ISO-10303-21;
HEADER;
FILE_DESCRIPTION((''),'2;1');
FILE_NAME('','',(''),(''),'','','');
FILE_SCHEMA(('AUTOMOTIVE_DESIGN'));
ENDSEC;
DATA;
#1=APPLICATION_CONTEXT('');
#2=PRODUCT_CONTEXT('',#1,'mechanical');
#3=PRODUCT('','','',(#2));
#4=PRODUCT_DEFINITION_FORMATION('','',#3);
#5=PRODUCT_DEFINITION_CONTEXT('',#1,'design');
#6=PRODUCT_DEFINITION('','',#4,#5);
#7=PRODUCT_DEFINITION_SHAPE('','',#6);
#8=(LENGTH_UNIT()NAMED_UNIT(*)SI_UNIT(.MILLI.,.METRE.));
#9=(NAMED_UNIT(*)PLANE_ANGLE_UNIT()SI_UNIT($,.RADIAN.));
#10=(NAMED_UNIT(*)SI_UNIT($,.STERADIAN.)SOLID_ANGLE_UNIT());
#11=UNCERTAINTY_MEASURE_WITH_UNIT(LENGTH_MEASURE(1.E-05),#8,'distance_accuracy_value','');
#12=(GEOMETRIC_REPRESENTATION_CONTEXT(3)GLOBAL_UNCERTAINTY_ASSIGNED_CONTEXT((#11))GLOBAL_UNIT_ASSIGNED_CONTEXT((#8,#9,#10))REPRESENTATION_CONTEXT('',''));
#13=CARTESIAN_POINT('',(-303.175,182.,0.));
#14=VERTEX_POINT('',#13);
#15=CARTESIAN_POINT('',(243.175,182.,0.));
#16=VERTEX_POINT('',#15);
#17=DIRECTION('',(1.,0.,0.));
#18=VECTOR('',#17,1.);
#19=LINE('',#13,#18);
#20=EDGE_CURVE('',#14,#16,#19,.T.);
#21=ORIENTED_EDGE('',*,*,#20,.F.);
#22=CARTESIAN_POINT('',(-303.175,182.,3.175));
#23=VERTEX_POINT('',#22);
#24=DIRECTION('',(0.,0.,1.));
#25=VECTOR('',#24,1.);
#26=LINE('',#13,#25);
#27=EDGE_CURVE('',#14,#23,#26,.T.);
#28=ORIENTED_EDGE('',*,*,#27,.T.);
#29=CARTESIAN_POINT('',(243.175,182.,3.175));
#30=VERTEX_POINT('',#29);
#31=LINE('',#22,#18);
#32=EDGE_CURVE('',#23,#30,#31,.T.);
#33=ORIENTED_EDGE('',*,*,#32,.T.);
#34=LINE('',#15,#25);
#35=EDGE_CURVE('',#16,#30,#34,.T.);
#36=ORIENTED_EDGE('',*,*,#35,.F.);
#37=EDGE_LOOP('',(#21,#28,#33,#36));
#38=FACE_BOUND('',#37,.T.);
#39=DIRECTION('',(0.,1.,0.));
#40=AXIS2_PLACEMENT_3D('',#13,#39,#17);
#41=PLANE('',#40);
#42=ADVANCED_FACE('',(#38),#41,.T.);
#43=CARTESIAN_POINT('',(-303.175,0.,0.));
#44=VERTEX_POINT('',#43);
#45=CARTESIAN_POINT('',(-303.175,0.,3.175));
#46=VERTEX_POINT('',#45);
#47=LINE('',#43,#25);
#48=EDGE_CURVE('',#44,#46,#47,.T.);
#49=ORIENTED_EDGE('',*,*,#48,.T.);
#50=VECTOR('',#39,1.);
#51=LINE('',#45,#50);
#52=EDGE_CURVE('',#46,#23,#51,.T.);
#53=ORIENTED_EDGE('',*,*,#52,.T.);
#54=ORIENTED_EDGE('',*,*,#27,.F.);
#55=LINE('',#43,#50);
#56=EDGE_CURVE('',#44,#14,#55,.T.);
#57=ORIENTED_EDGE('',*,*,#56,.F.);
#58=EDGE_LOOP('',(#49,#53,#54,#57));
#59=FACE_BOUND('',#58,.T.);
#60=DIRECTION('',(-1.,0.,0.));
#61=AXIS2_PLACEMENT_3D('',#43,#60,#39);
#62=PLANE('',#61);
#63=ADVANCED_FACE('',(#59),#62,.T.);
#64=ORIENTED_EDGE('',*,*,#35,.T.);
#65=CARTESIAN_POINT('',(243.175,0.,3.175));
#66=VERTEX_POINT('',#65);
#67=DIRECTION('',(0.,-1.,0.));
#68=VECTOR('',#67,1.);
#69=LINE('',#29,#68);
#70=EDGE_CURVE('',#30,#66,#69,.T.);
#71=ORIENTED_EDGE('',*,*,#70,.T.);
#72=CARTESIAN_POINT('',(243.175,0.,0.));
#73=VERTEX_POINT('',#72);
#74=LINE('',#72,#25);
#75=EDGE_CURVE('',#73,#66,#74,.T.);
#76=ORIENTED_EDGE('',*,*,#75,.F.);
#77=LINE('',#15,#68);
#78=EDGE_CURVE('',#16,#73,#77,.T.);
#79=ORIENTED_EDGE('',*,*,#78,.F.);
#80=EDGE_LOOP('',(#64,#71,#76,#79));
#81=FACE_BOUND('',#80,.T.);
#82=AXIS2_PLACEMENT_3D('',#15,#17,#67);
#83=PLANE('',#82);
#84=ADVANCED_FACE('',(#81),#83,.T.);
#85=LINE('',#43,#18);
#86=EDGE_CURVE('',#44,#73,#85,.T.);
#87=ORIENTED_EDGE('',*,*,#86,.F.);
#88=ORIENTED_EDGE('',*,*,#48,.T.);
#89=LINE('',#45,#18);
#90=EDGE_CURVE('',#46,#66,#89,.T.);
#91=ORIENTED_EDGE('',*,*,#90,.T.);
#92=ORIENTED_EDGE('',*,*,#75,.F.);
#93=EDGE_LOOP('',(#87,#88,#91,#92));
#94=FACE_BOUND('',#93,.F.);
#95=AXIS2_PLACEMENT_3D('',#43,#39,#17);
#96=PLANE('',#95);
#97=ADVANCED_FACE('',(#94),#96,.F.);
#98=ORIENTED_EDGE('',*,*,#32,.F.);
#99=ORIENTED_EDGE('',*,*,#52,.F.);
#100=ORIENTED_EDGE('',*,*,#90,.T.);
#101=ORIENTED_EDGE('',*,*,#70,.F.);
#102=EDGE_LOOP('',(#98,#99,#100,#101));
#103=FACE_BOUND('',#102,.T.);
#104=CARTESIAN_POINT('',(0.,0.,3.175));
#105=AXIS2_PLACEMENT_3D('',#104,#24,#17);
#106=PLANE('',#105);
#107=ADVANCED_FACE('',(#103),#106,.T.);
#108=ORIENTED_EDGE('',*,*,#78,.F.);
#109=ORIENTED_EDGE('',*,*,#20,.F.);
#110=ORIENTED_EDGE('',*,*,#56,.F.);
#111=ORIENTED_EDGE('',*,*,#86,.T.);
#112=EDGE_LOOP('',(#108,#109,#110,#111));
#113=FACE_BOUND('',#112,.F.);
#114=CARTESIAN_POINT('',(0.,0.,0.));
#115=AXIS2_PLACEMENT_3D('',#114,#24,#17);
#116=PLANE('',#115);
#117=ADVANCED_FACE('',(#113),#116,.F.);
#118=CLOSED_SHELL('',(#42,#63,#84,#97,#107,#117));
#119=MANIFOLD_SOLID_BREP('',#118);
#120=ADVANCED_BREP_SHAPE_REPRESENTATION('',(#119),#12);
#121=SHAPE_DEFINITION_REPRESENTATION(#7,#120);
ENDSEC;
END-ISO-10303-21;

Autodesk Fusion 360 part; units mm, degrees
ref_plane "WorkPlane12" through (0, -1, 0) normal (0, 1, 0) x (0, 0, 1)
sketch "MyStock" plane through (0, 0, 0) normal (0, 0, 1) x (1, 0, 0)
  line L0 (-303.175, 182) -> (243.175, 182)
  line L1 (243.175, 182) -> (243.175, 0)
  line L2 (-303.175, 0) -> (-303.175, 182)
  line L3 (-303.175, 0) -> (243.175, 0)
  dimension "d2016" = 243.175
  dimension "d2017" = 303.175
  dimension "d2102" = 182
extrude "Extrude21" add sketch "MyStock" along normal blind 3.175
sketch "Box Big part" plane through (0, 0, 0) normal (0, 0, 1) x (1, 0, 0)
  line L0 (-224.905, 0) -> (-240, 0)
  line L1 (0, 16.095) -> (0, 0)
  line L2 (-240, 0) -> (-224.905, 0)
  line L3 (-224.905, 0) -> (-224.905, 1.5613)
  line L4 (-223.7758, 3.175) -> (-216.2242, 3.175)
  line L5 (-215.095, 1.5613) -> (-215.095, 0)
  line L6 (-240, 16.095) -> (-238.4387, 16.095)
  line L7 (-236.825, 17.2242) -> (-236.825, 24.7758)
  line L8 (-238.4387, 25.905) -> (-240, 25.905)
  line L9 (-215.095, 0) -> (-204.905, 0)
  line L10 (1.75, 0) -> (22.5, 0)
  arc A0 (-215.095, 1.5613) -> (-216.2242, 3.175) centre (-215.5171, 2.4679) ccw
  arc A1 (-223.7758, 3.175) -> (-224.905, 1.5613) centre (-224.4829, 2.4679) ccw
  line L11 (-240, 0) -> (-240, 16.095)
  line L12 (-240, 25.905) -> (-240, 36.095)
  arc A2 (-238.4387, 16.095) -> (-236.825, 17.2242) centre (-237.5321, 16.5171) ccw
  arc A3 (-236.825, 24.7758) -> (-238.4387, 25.905) centre (-237.5321, 25.4829) ccw
  line L13 (-302, 91) -> (0, 91) construction
  line L14 (-120, -20) -> (-120, 200) construction
  arc A4 (-1.5613, 25.905) -> (-3.175, 24.7758) centre (-2.4679, 25.4829) ccw
  arc A5 (-3.175, 17.2242) -> (-1.5613, 16.095) centre (-2.4679, 16.5171) ccw
  line L15 (-3.175, 17.2242) -> (-3.175, 24.7758)
  line L16 (-1.5613, 25.905) -> (0, 25.905)
  line L17 (0, 25.905) -> (0, 36.095)
  line L18 (0, 16.095) -> (-1.5613, 16.095)
  line L19 (0, 16.095) -> (0, 0)
  line L20 (-215.095, 180.4387) -> (-215.095, 182)
  line L21 (-224.905, 182) -> (-224.905, 180.4387)
  line L22 (-215.095, 182) -> (-204.905, 182)
  arc A6 (-216.2242, 178.825) -> (-215.095, 180.4387) centre (-215.5171, 179.5321) ccw
  line L23 (-224.905, 182) -> (-240, 182)
  arc A7 (-224.905, 180.4387) -> (-223.7758, 178.825) centre (-224.4829, 179.5321) ccw
  line L24 (-223.7758, 178.825) -> (-216.2242, 178.825)
  line L25 (-240, 182) -> (-224.905, 182)
  arc A8 (-195.095, 1.5613) -> (-196.2242, 3.175) centre (-195.5171, 2.4679) ccw
  line L26 (-195.095, 1.5613) -> (-195.095, 0)
  arc A9 (-203.7758, 3.175) -> (-204.905, 1.5613) centre (-204.4829, 2.4679) ccw
  line L27 (-195.095, 0) -> (-184.905, 0)
  line L28 (-203.7758, 3.175) -> (-196.2242, 3.175)
  line L29 (-204.905, 0) -> (-204.905, 1.5613)
  arc A10 (-175.095, 1.5613) -> (-176.2242, 3.175) centre (-175.5171, 2.4679) ccw
  line L30 (-175.095, 1.5613) -> (-175.095, 0)
  arc A11 (-183.7758, 3.175) -> (-184.905, 1.5613) centre (-184.4829, 2.4679) ccw
  line L31 (-175.095, 0) -> (-164.905, 0)
  line L32 (-183.7758, 3.175) -> (-176.2242, 3.175)
  line L33 (-184.905, 0) -> (-184.905, 1.5613)
  arc A12 (-155.095, 1.5613) -> (-156.2242, 3.175) centre (-155.5171, 2.4679) ccw
  line L34 (-155.095, 1.5613) -> (-155.095, 0)
  arc A13 (-163.7758, 3.175) -> (-164.905, 1.5613) centre (-164.4829, 2.4679) ccw
  line L35 (-155.095, 0) -> (-144.905, 0)
  line L36 (-163.7758, 3.175) -> (-156.2242, 3.175)
  line L37 (-164.905, 0) -> (-164.905, 1.5613)
  arc A14 (-135.095, 1.5613) -> (-136.2242, 3.175) centre (-135.5171, 2.4679) ccw
  line L38 (-135.095, 1.5613) -> (-135.095, 0)
  arc A15 (-143.7758, 3.175) -> (-144.905, 1.5613) centre (-144.4829, 2.4679) ccw
  line L39 (-135.095, 0) -> (-124.905, 0)
  line L40 (-143.7758, 3.175) -> (-136.2242, 3.175)
  line L41 (-144.905, 0) -> (-144.905, 1.5613)
  arc A16 (-115.095, 1.5613) -> (-116.2242, 3.175) centre (-115.5171, 2.4679) ccw
  line L42 (-115.095, 1.5613) -> (-115.095, 0)
  arc A17 (-123.7758, 3.175) -> (-124.905, 1.5613) centre (-124.4829, 2.4679) ccw
  line L43 (-115.095, 0) -> (-104.905, 0)
  line L44 (-123.7758, 3.175) -> (-116.2242, 3.175)
  line L45 (-124.905, 0) -> (-124.905, 1.5613)
  arc A18 (-95.095, 1.5613) -> (-96.2242, 3.175) centre (-95.5171, 2.4679) ccw
  line L46 (-95.095, 1.5613) -> (-95.095, 0)
  arc A19 (-103.7758, 3.175) -> (-104.905, 1.5613) centre (-104.4829, 2.4679) ccw
  line L47 (-95.095, 0) -> (-84.905, 0)
  line L48 (-103.7758, 3.175) -> (-96.2242, 3.175)
  line L49 (-104.905, 0) -> (-104.905, 1.5613)
  line L50 (0, 0) -> (-4.905, 0)
  line L51 (-238.4387, 45.905) -> (-240, 45.905)
  line L52 (-240, 36.095) -> (-238.4387, 36.095)
  arc A20 (-238.4387, 36.095) -> (-236.825, 37.2242) centre (-237.5321, 36.5171) ccw
  line L53 (-240, 45.905) -> (-240, 56.095)
  arc A21 (-236.825, 44.7758) -> (-238.4387, 45.905) centre (-237.5321, 45.4829) ccw
  line L54 (-236.825, 37.2242) -> (-236.825, 44.7758)
  line L55 (-238.4387, 65.905) -> (-240, 65.905)
  line L56 (-240, 56.095) -> (-238.4387, 56.095)
  arc A22 (-238.4387, 56.095) -> (-236.825, 57.2242) centre (-237.5321, 56.5171) ccw
  line L57 (-240, 65.905) -> (-240, 76.095)
  arc A23 (-236.825, 64.7758) -> (-238.4387, 65.905) centre (-237.5321, 65.4829) ccw
  line L58 (-236.825, 57.2242) -> (-236.825, 64.7758)
  line L59 (-238.4387, 85.905) -> (-240, 85.905)
  line L60 (-240, 76.095) -> (-238.4387, 76.095)
  arc A24 (-238.4387, 76.095) -> (-236.825, 77.2242) centre (-237.5321, 76.5171) ccw
  line L61 (-240, 85.905) -> (-240, 96.095)
  arc A25 (-236.825, 84.7758) -> (-238.4387, 85.905) centre (-237.5321, 85.4829) ccw
  line L62 (-236.825, 77.2242) -> (-236.825, 84.7758)
  line L63 (-238.4387, 105.905) -> (-240, 105.905)
  line L64 (-240, 96.095) -> (-238.4387, 96.095)
  arc A26 (-238.4387, 96.095) -> (-236.825, 97.2242) centre (-237.5321, 96.5171) ccw
  line L65 (-240, 105.905) -> (-240, 116.095)
  arc A27 (-236.825, 104.7758) -> (-238.4387, 105.905) centre (-237.5321, 105.4829) ccw
  line L66 (-236.825, 97.2242) -> (-236.825, 104.7758)
  arc A28 (-196.2242, 178.825) -> (-195.095, 180.4387) centre (-195.5171, 179.5321) ccw
  line L67 (-195.095, 180.4387) -> (-195.095, 182)
  arc A29 (-204.905, 180.4387) -> (-203.7758, 178.825) centre (-204.4829, 179.5321) ccw
  line L68 (-203.7758, 178.825) -> (-196.2242, 178.825)
  line L69 (-204.905, 182) -> (-204.905, 180.4387)
  line L70 (-195.095, 182) -> (-184.905, 182)
  arc A30 (-176.2242, 178.825) -> (-175.095, 180.4387) centre (-175.5171, 179.5321) ccw
  line L71 (-175.095, 180.4387) -> (-175.095, 182)
  arc A31 (-184.905, 180.4387) -> (-183.7758, 178.825) centre (-184.4829, 179.5321) ccw
  line L72 (-183.7758, 178.825) -> (-176.2242, 178.825)
  line L73 (-184.905, 182) -> (-184.905, 180.4387)
  line L74 (-175.095, 182) -> (-164.905, 182)
  arc A32 (-156.2242, 178.825) -> (-155.095, 180.4387) centre (-155.5171, 179.5321) ccw
  line L75 (-155.095, 180.4387) -> (-155.095, 182)
  arc A33 (-164.905, 180.4387) -> (-163.7758, 178.825) centre (-164.4829, 179.5321) ccw
  line L76 (-163.7758, 178.825) -> (-156.2242, 178.825)
  line L77 (-164.905, 182) -> (-164.905, 180.4387)
  line L78 (-155.095, 182) -> (-144.905, 182)
  arc A34 (-136.2242, 178.825) -> (-135.095, 180.4387) centre (-135.5171, 179.5321) ccw
  line L79 (-135.095, 180.4387) -> (-135.095, 182)
  arc A35 (-144.905, 180.4387) -> (-143.7758, 178.825) centre (-144.4829, 179.5321) ccw
  line L80 (-143.7758, 178.825) -> (-136.2242, 178.825)
  line L81 (-144.905, 182) -> (-144.905, 180.4387)
  line L82 (-135.095, 182) -> (-124.905, 182)
  arc A36 (-116.2242, 178.825) -> (-115.095, 180.4387) centre (-115.5171, 179.5321) ccw
  line L83 (-115.095, 180.4387) -> (-115.095, 182)
  arc A37 (-124.905, 180.4387) -> (-123.7758, 178.825) centre (-124.4829, 179.5321) ccw
  line L84 (-123.7758, 178.825) -> (-116.2242, 178.825)
  line L85 (-124.905, 182) -> (-124.905, 180.4387)
  line L86 (-115.095, 182) -> (-104.905, 182)
  arc A38 (-96.2242, 178.825) -> (-95.095, 180.4387) centre (-95.5171, 179.5321) ccw
  line L87 (-95.095, 180.4387) -> (-95.095, 182)
  arc A39 (-104.905, 180.4387) -> (-103.7758, 178.825) centre (-104.4829, 179.5321) ccw
  line L88 (-103.7758, 178.825) -> (-96.2242, 178.825)
  line L89 (-104.905, 182) -> (-104.905, 180.4387)
  line L90 (-95.095, 182) -> (-84.905, 182)
  line L91 (0, 182) -> (-4.905, 182)
  line L92 (-3.175, 37.2242) -> (-3.175, 44.7758)
  line L93 (-1.5613, 45.905) -> (0, 45.905)
  line L94 (0, 45.905) -> (0, 56.095)
  arc A40 (-1.5613, 45.905) -> (-3.175, 44.7758) centre (-2.4679, 45.4829) ccw
  line L95 (0, 36.095) -> (-1.5613, 36.095)
  line L96 (-3.175, 57.2242) -> (-3.175, 64.7758)
  line L97 (-1.5613, 65.905) -> (0, 65.905)
  line L98 (0, 65.905) -> (0, 76.095)
  arc A41 (-1.5613, 65.905) -> (-3.175, 64.7758) centre (-2.4679, 65.4829) ccw
  line L99 (0, 56.095) -> (-1.5613, 56.095)
  line L100 (-3.175, 77.2242) -> (-3.175, 84.7758)
  line L101 (-1.5613, 85.905) -> (0, 85.905)
  line L102 (0, 85.905) -> (0, 96.095)
  arc A42 (-1.5613, 85.905) -> (-3.175, 84.7758) centre (-2.4679, 85.4829) ccw
  line L103 (0, 76.095) -> (-1.5613, 76.095)
  line L104 (-3.175, 97.2242) -> (-3.175, 104.7758)
  line L105 (-1.5613, 105.905) -> (0, 105.905)
  line L106 (0, 105.905) -> (0, 116.095)
  arc A43 (-1.5613, 105.905) -> (-3.175, 104.7758) centre (-2.4679, 105.4829) ccw
  line L107 (0, 96.095) -> (-1.5613, 96.095)
  arc A44 (-3.175, 37.2242) -> (-1.5613, 36.095) centre (-2.4679, 36.5171) ccw
  arc A45 (-3.175, 57.2242) -> (-1.5613, 56.095) centre (-2.4679, 56.5171) ccw
  arc A46 (-3.175, 77.2242) -> (-1.5613, 76.095) centre (-2.4679, 76.5171) ccw
  arc A47 (-3.175, 97.2242) -> (-1.5613, 96.095) centre (-2.4679, 96.5171) ccw
  line L108 (0, 182) -> (0, 176.095)
  line L109 (-240, 182) -> (-240, 176.095)
  arc A48 (-75.095, 1.5613) -> (-76.2242, 3.175) centre (-75.5171, 2.4679) ccw
  line L110 (-75.095, 1.5613) -> (-75.095, 0)
  arc A49 (-83.7758, 3.175) -> (-84.905, 1.5613) centre (-84.4829, 2.4679) ccw
  line L111 (-75.095, 0) -> (-64.905, 0)
  line L112 (-83.7758, 3.175) -> (-76.2242, 3.175)
  line L113 (-84.905, 0) -> (-84.905, 1.5613)
  arc A50 (-55.095, 1.5613) -> (-56.2242, 3.175) centre (-55.5171, 2.4679) ccw
  line L114 (-55.095, 1.5613) -> (-55.095, 0)
  arc A51 (-63.7758, 3.175) -> (-64.905, 1.5613) centre (-64.4829, 2.4679) ccw
  line L115 (-55.095, 0) -> (-44.905, 0)
  line L116 (-63.7758, 3.175) -> (-56.2242, 3.175)
  line L117 (-64.905, 0) -> (-64.905, 1.5613)
  line L118 (-238.4387, 125.905) -> (-240, 125.905)
  line L119 (-240, 116.095) -> (-238.4387, 116.095)
  arc A52 (-238.4387, 116.095) -> (-236.825, 117.2242) centre (-237.5321, 116.5171) ccw
  line L120 (-240, 125.905) -> (-240, 136.095)
  arc A53 (-236.825, 124.7758) -> (-238.4387, 125.905) centre (-237.5321, 125.4829) ccw
  line L121 (-236.825, 117.2242) -> (-236.825, 124.7758)
  line L122 (-238.4387, 145.905) -> (-240, 145.905)
  line L123 (-240, 136.095) -> (-238.4387, 136.095)
  arc A54 (-238.4387, 136.095) -> (-236.825, 137.2242) centre (-237.5321, 136.5171) ccw
  line L124 (-240, 145.905) -> (-240, 156.095)
  arc A55 (-236.825, 144.7758) -> (-238.4387, 145.905) centre (-237.5321, 145.4829) ccw
  line L125 (-236.825, 137.2242) -> (-236.825, 144.7758)
  arc A56 (-76.2242, 178.825) -> (-75.095, 180.4387) centre (-75.5171, 179.5321) ccw
  line L126 (-75.095, 180.4387) -> (-75.095, 182)
  arc A57 (-84.905, 180.4387) -> (-83.7758, 178.825) centre (-84.4829, 179.5321) ccw
  line L127 (-83.7758, 178.825) -> (-76.2242, 178.825)
  line L128 (-84.905, 182) -> (-84.905, 180.4387)
  line L129 (-75.095, 182) -> (-64.905, 182)
  arc A58 (-56.2242, 178.825) -> (-55.095, 180.4387) centre (-55.5171, 179.5321) ccw
  line L130 (-55.095, 180.4387) -> (-55.095, 182)
  arc A59 (-64.905, 180.4387) -> (-63.7758, 178.825) centre (-64.4829, 179.5321) ccw
  line L131 (-63.7758, 178.825) -> (-56.2242, 178.825)
  line L132 (-64.905, 182) -> (-64.905, 180.4387)
  line L133 (-55.095, 182) -> (-44.905, 182)
  line L134 (-3.175, 117.2242) -> (-3.175, 124.7758)
  line L135 (-1.5613, 125.905) -> (0, 125.905)
  line L136 (0, 125.905) -> (0, 136.095)
  arc A60 (-1.5613, 125.905) -> (-3.175, 124.7758) centre (-2.4679, 125.4829) ccw
  line L137 (0, 116.095) -> (-1.5613, 116.095)
  arc A61 (-3.175, 117.2242) -> (-1.5613, 116.095) centre (-2.4679, 116.5171) ccw
  line L138 (-3.175, 137.2242) -> (-3.175, 144.7758)
  line L139 (-1.5613, 145.905) -> (0, 145.905)
  line L140 (0, 145.905) -> (0, 156.095)
  arc A62 (-1.5613, 145.905) -> (-3.175, 144.7758) centre (-2.4679, 145.4829) ccw
  line L141 (0, 136.095) -> (-1.5613, 136.095)
  arc A63 (-3.175, 137.2242) -> (-1.5613, 136.095) centre (-2.4679, 136.5171) ccw
  arc A64 (-35.095, 1.5613) -> (-36.2242, 3.175) centre (-35.5171, 2.4679) ccw
  line L142 (-35.095, 1.5613) -> (-35.095, 0)
  arc A65 (-43.7758, 3.175) -> (-44.905, 1.5613) centre (-44.4829, 2.4679) ccw
  line L143 (-35.095, 0) -> (-24.905, 0)
  line L144 (-43.7758, 3.175) -> (-36.2242, 3.175)
  line L145 (-44.905, 0) -> (-44.905, 1.5613)
  arc A66 (-15.095, 1.5613) -> (-16.2242, 3.175) centre (-15.5171, 2.4679) ccw
  line L146 (-15.095, 1.5613) -> (-15.095, 0)
  arc A67 (-23.7758, 3.175) -> (-24.905, 1.5613) centre (-24.4829, 2.4679) ccw
  line L147 (-15.095, 0) -> (-4.905, 0)
  line L148 (-23.7758, 3.175) -> (-16.2242, 3.175)
  line L149 (-24.905, 0) -> (-24.905, 1.5613)
  line L150 (-238.4387, 165.905) -> (-240, 165.905)
  line L151 (-240, 156.095) -> (-238.4387, 156.095)
  arc A68 (-238.4387, 156.095) -> (-236.825, 157.2242) centre (-237.5321, 156.5171) ccw
  line L152 (-240, 165.905) -> (-240, 176.095)
  arc A69 (-236.825, 164.7758) -> (-238.4387, 165.905) centre (-237.5321, 165.4829) ccw
  line L153 (-236.825, 157.2242) -> (-236.825, 164.7758)
  arc A70 (-36.2242, 178.825) -> (-35.095, 180.4387) centre (-35.5171, 179.5321) ccw
  line L154 (-35.095, 180.4387) -> (-35.095, 182)
  arc A71 (-44.905, 180.4387) -> (-43.7758, 178.825) centre (-44.4829, 179.5321) ccw
  line L155 (-43.7758, 178.825) -> (-36.2242, 178.825)
  line L156 (-44.905, 182) -> (-44.905, 180.4387)
  line L157 (-35.095, 182) -> (-24.905, 182)
  arc A72 (-16.2242, 178.825) -> (-15.095, 180.4387) centre (-15.5171, 179.5321) ccw
  line L158 (-15.095, 180.4387) -> (-15.095, 182)
  arc A73 (-24.905, 180.4387) -> (-23.7758, 178.825) centre (-24.4829, 179.5321) ccw
  line L159 (-23.7758, 178.825) -> (-16.2242, 178.825)
  line L160 (-24.905, 182) -> (-24.905, 180.4387)
  line L161 (-15.095, 182) -> (-4.905, 182)
  line L162 (-3.175, 157.2242) -> (-3.175, 164.7758)
  line L163 (-1.5613, 165.905) -> (0, 165.905)
  line L164 (0, 165.905) -> (0, 176.095)
  arc A74 (-1.5613, 165.905) -> (-3.175, 164.7758) centre (-2.4679, 165.4829) ccw
  line L165 (0, 156.095) -> (-1.5613, 156.095)
  arc A75 (-3.175, 157.2242) -> (-1.5613, 156.095) centre (-2.4679, 156.5171) ccw
  dimension "d34" = 2
  dimension "d36" = 0.4221
  dimension "d37" = 0.7071
  dimension "d38" = 0.4221
  dimension "d48" = 2
  dimension "d49" = 0.4221
  dimension "d50" = 16.095
  dimension "d52" = 0.4221
  dimension "d54" = 0.7071
  dimension "d55" = 9.81
  dimension "d189" = 15.095
  dimension "d473" = 240
  dimension "d2062" = 10.19
  dimension "d2063" = 9.81
  dimension "d2064" = 3.175
  dimension "d2068" = 3.175
  dimension "d2069" = 10.19
  dimension "d2071" = 120
  dimension "d2074" = 20
  dimension "d2075" = 0
  dimension "d2076" = 4.905
  dimension "d2080" = 0
  dimension "d2081" = 20
  dimension "d2084" = 20
  dimension "d2085" = 0
  dimension "d2087" = 4.905
  dimension "d2088" = 182
  dimension "d2091" = 0
  dimension "d2092" = 20
  dimension "d2095" = 5.905
  dimension "d2097" = 5.905
  dimension "d2098" = 182
  dimension "d2103" = 91
sketch "Box Medium part" plane through (0, 0, 0) normal (0, 0, 1) x (1, 0, 0)
  line L0 (28.2242, 3.175) -> (35.7758, 3.175)
  line L1 (240.4387, 14.905) -> (242, 14.905)
  line L2 (238.825, 3.175) -> (238.825, 13.7758)
  line L3 (242, 25.095) -> (240.4387, 25.095)
  line L4 (2, 60) -> (242, 60) construction
  line L5 (27.095, 0) -> (27.095, 1.5613)
  line L6 (240.4387, 34.905) -> (242, 34.905)
  line L7 (5.175, 3.175) -> (15.7758, 3.175)
  line L8 (36.905, 1.5613) -> (36.905, 0)
  line L9 (242, 60) -> (242, 0) construction
  line L10 (238.825, 26.2242) -> (238.825, 33.7758)
  line L11 (16.905, 1.5613) -> (16.905, 0)
  line L12 (2, 3.175) -> (2, 0) construction
  arc A0 (16.905, 1.5613) -> (15.7758, 3.175) centre (16.4829, 2.4679) ccw
  arc A1 (28.2242, 3.175) -> (27.095, 1.5613) centre (27.5171, 2.4679) ccw
  arc A2 (36.905, 1.5613) -> (35.7758, 3.175) centre (36.4829, 2.4679) ccw
  arc A3 (240.4387, 14.905) -> (238.825, 13.7758) centre (239.5321, 14.4829) ccw
  line L13 (16.905, 0) -> (27.095, 0)
  line L14 (-22, 30) -> (297, 30) construction
  line L15 (122, -24.8824) -> (122, 81) construction
  arc A4 (238.825, 26.2242) -> (240.4387, 25.095) centre (239.5321, 25.5171) ccw
  arc A5 (240.4387, 34.905) -> (238.825, 33.7758) centre (239.5321, 34.4829) ccw
  line L16 (36.905, 0) -> (47.095, 0)
  line L17 (242, 34.905) -> (242, 45.095)
  line L18 (2, 3.175) -> (2, 30) construction
  line L19 (2, 60) -> (2, 61.175) construction
  line L20 (0, 0) -> (47.095, 0) construction
  line L21 (122, 0) -> (242, 0) construction
  line L22 (36.905, 58.4387) -> (36.905, 60)
  arc A6 (35.7758, 56.825) -> (36.905, 58.4387) centre (36.4829, 57.5321) ccw
  line L23 (36.905, 60) -> (47.095, 60)
  arc A7 (15.7758, 56.825) -> (16.905, 58.4387) centre (16.4829, 57.5321) ccw
  line L24 (27.095, 60) -> (27.095, 58.4387)
  line L25 (16.905, 58.4387) -> (16.905, 60)
  arc A8 (27.095, 58.4387) -> (28.2242, 56.825) centre (27.5171, 57.5321) ccw
  line L26 (16.905, 60) -> (27.095, 60)
  line L27 (28.2242, 56.825) -> (35.7758, 56.825)
  line L28 (0, 60) -> (47.095, 60) construction
  line L29 (5.175, 56.825) -> (15.7758, 56.825)
  line L30 (2, 56.825) -> (2, 60) construction
  line L31 (3.5613, 14.905) -> (2, 14.905)
  arc A9 (5.175, 33.7758) -> (3.5613, 34.905) centre (4.4679, 34.4829) ccw
  line L32 (5.175, 3.175) -> (5.175, 13.7758)
  line L33 (3.5613, 34.905) -> (2, 34.905)
  line L34 (5.175, 26.2242) -> (5.175, 33.7758)
  line L35 (2, 25.095) -> (3.5613, 25.095)
  arc A10 (5.175, 13.7758) -> (3.5613, 14.905) centre (4.4679, 14.4829) ccw
  arc A11 (3.5613, 25.095) -> (5.175, 26.2242) centre (4.4679, 25.5171) ccw
  line L36 (2, 34.905) -> (2, 45.095)
  arc A12 (56.905, 1.5613) -> (55.7758, 3.175) centre (56.4829, 2.4679) ccw
  line L37 (48.2242, 3.175) -> (55.7758, 3.175)
  arc A13 (48.2242, 3.175) -> (47.095, 1.5613) centre (47.5171, 2.4679) ccw
  line L38 (56.905, 0) -> (67.095, 0)
  line L39 (56.905, 1.5613) -> (56.905, 0)
  line L40 (47.095, 0) -> (47.095, 1.5613)
  arc A14 (76.905, 1.5613) -> (75.7758, 3.175) centre (76.4829, 2.4679) ccw
  line L41 (68.2242, 3.175) -> (75.7758, 3.175)
  arc A15 (68.2242, 3.175) -> (67.095, 1.5613) centre (67.5171, 2.4679) ccw
  line L42 (76.905, 0) -> (87.095, 0)
  line L43 (76.905, 1.5613) -> (76.905, 0)
  line L44 (67.095, 0) -> (67.095, 1.5613)
  arc A16 (96.905, 1.5613) -> (95.7758, 3.175) centre (96.4829, 2.4679) ccw
  line L45 (88.2242, 3.175) -> (95.7758, 3.175)
  arc A17 (88.2242, 3.175) -> (87.095, 1.5613) centre (87.5171, 2.4679) ccw
  line L46 (96.905, 0) -> (107.095, 0)
  line L47 (96.905, 1.5613) -> (96.905, 0)
  line L48 (87.095, 0) -> (87.095, 1.5613)
  arc A18 (116.905, 1.5613) -> (115.7758, 3.175) centre (116.4829, 2.4679) ccw
  line L49 (108.2242, 3.175) -> (115.7758, 3.175)
  arc A19 (108.2242, 3.175) -> (107.095, 1.5613) centre (107.5171, 2.4679) ccw
  line L50 (116.905, 0) -> (127.095, 0)
  line L51 (116.905, 1.5613) -> (116.905, 0)
  line L52 (107.095, 0) -> (107.095, 1.5613)
  arc A20 (136.905, 1.5613) -> (135.7758, 3.175) centre (136.4829, 2.4679) ccw
  line L53 (128.2242, 3.175) -> (135.7758, 3.175)
  arc A21 (128.2242, 3.175) -> (127.095, 1.5613) centre (127.5171, 2.4679) ccw
  line L54 (136.905, 0) -> (147.095, 0)
  line L55 (136.905, 1.5613) -> (136.905, 0)
  line L56 (127.095, 0) -> (127.095, 1.5613)
  line L57 (47.095, 60) -> (47.095, 58.4387)
  line L58 (48.2242, 56.825) -> (55.7758, 56.825)
  arc A22 (55.7758, 56.825) -> (56.905, 58.4387) centre (56.4829, 57.5321) ccw
  arc A23 (47.095, 58.4387) -> (48.2242, 56.825) centre (47.5171, 57.5321) ccw
  line L59 (56.905, 60) -> (67.095, 60)
  line L60 (56.905, 58.4387) -> (56.905, 60)
  line L61 (67.095, 60) -> (67.095, 58.4387)
  line L62 (68.2242, 56.825) -> (75.7758, 56.825)
  arc A24 (75.7758, 56.825) -> (76.905, 58.4387) centre (76.4829, 57.5321) ccw
  arc A25 (67.095, 58.4387) -> (68.2242, 56.825) centre (67.5171, 57.5321) ccw
  line L63 (76.905, 60) -> (87.095, 60)
  line L64 (76.905, 58.4387) -> (76.905, 60)
  line L65 (87.095, 60) -> (87.095, 58.4387)
  line L66 (88.2242, 56.825) -> (95.7758, 56.825)
  arc A26 (95.7758, 56.825) -> (96.905, 58.4387) centre (96.4829, 57.5321) ccw
  arc A27 (87.095, 58.4387) -> (88.2242, 56.825) centre (87.5171, 57.5321) ccw
  line L67 (96.905, 60) -> (107.095, 60)
  line L68 (96.905, 58.4387) -> (96.905, 60)
  line L69 (107.095, 60) -> (107.095, 58.4387)
  line L70 (108.2242, 56.825) -> (115.7758, 56.825)
  arc A28 (115.7758, 56.825) -> (116.905, 58.4387) centre (116.4829, 57.5321) ccw
  arc A29 (107.095, 58.4387) -> (108.2242, 56.825) centre (107.5171, 57.5321) ccw
  line L71 (116.905, 60) -> (127.095, 60)
  line L72 (116.905, 58.4387) -> (116.905, 60)
  line L73 (127.095, 60) -> (127.095, 58.4387)
  line L74 (128.2242, 56.825) -> (135.7758, 56.825)
  arc A30 (135.7758, 56.825) -> (136.905, 58.4387) centre (136.4829, 57.5321) ccw
  arc A31 (127.095, 58.4387) -> (128.2242, 56.825) centre (127.5171, 57.5321) ccw
  line L75 (136.905, 60) -> (147.095, 60)
  line L76 (136.905, 58.4387) -> (136.905, 60)
  line L77 (227.095, 1.5613) -> (227.095, 0)
  arc A32 (228.2242, 3.175) -> (227.095, 1.5613) centre (227.5171, 2.4679) ccw
  line L78 (238.825, 3.175) -> (228.2242, 3.175)
  line L79 (244, 0) -> (196.905, 0) construction
  line L80 (242, 56.825) -> (242, 60) construction
  line L81 (227.095, 58.4387) -> (227.095, 60)
  line L82 (242, 60) -> (242, 61.175) construction
  arc A33 (227.095, 58.4387) -> (228.2242, 56.825) centre (227.5171, 57.5321) ccw
  line L83 (238.825, 56.825) -> (228.2242, 56.825)
  line L84 (2, 14.905) -> (2, 25.095)
  arc A34 (3.5613, 45.095) -> (5.175, 46.2242) centre (4.4679, 45.5171) ccw
  line L85 (3.5613, 45.095) -> (2, 45.095)
  line L86 (5.175, 56.825) -> (5.175, 46.2242)
  arc A35 (238.825, 46.2242) -> (240.4387, 45.095) centre (239.5321, 45.5171) ccw
  line L87 (240.4387, 45.095) -> (242, 45.095)
  line L88 (238.825, 56.825) -> (238.825, 46.2242)
  line L89 (242, 25.095) -> (242, 14.905)
  arc A36 (156.905, 1.5613) -> (155.7758, 3.175) centre (156.4829, 2.4679) ccw
  line L90 (148.2242, 3.175) -> (155.7758, 3.175)
  arc A37 (148.2242, 3.175) -> (147.095, 1.5613) centre (147.5171, 2.4679) ccw
  line L91 (156.905, 0) -> (167.095, 0)
  line L92 (156.905, 1.5613) -> (156.905, 0)
  line L93 (147.095, 0) -> (147.095, 1.5613)
  arc A38 (176.905, 1.5613) -> (175.7758, 3.175) centre (176.4829, 2.4679) ccw
  line L94 (168.2242, 3.175) -> (175.7758, 3.175)
  arc A39 (168.2242, 3.175) -> (167.095, 1.5613) centre (167.5171, 2.4679) ccw
  line L95 (176.905, 0) -> (187.095, 0)
  line L96 (176.905, 1.5613) -> (176.905, 0)
  line L97 (167.095, 0) -> (167.095, 1.5613)
  line L98 (147.095, 60) -> (147.095, 58.4387)
  line L99 (148.2242, 56.825) -> (155.7758, 56.825)
  arc A40 (155.7758, 56.825) -> (156.905, 58.4387) centre (156.4829, 57.5321) ccw
  arc A41 (147.095, 58.4387) -> (148.2242, 56.825) centre (147.5171, 57.5321) ccw
  line L100 (156.905, 60) -> (167.095, 60)
  line L101 (156.905, 58.4387) -> (156.905, 60)
  line L102 (167.095, 60) -> (167.095, 58.4387)
  line L103 (168.2242, 56.825) -> (175.7758, 56.825)
  arc A42 (175.7758, 56.825) -> (176.905, 58.4387) centre (176.4829, 57.5321) ccw
  arc A43 (167.095, 58.4387) -> (168.2242, 56.825) centre (167.5171, 57.5321) ccw
  line L104 (176.905, 60) -> (187.095, 60)
  line L105 (176.905, 58.4387) -> (176.905, 60)
  arc A44 (196.905, 1.5613) -> (195.7758, 3.175) centre (196.4829, 2.4679) ccw
  line L106 (188.2242, 3.175) -> (195.7758, 3.175)
  arc A45 (188.2242, 3.175) -> (187.095, 1.5613) centre (187.5171, 2.4679) ccw
  line L107 (196.905, 0) -> (207.095, 0)
  line L108 (196.905, 1.5613) -> (196.905, 0)
  line L109 (187.095, 0) -> (187.095, 1.5613)
  arc A46 (216.905, 1.5613) -> (215.7758, 3.175) centre (216.4829, 2.4679) ccw
  line L110 (208.2242, 3.175) -> (215.7758, 3.175)
  arc A47 (208.2242, 3.175) -> (207.095, 1.5613) centre (207.5171, 2.4679) ccw
  line L111 (216.905, 0) -> (227.095, 0)
  line L112 (216.905, 1.5613) -> (216.905, 0)
  line L113 (207.095, 0) -> (207.095, 1.5613)
  line L114 (187.095, 60) -> (187.095, 58.4387)
  line L115 (188.2242, 56.825) -> (195.7758, 56.825)
  arc A48 (195.7758, 56.825) -> (196.905, 58.4387) centre (196.4829, 57.5321) ccw
  arc A49 (187.095, 58.4387) -> (188.2242, 56.825) centre (187.5171, 57.5321) ccw
  line L116 (196.905, 60) -> (207.095, 60)
  line L117 (196.905, 58.4387) -> (196.905, 60)
  line L118 (207.095, 60) -> (207.095, 58.4387)
  line L119 (208.2242, 56.825) -> (215.7758, 56.825)
  arc A50 (215.7758, 56.825) -> (216.905, 58.4387) centre (216.4829, 57.5321) ccw
  arc A51 (207.095, 58.4387) -> (208.2242, 56.825) centre (207.5171, 57.5321) ccw
  line L120 (216.905, 60) -> (227.095, 60)
  line L121 (216.905, 58.4387) -> (216.905, 60)
  point P0 (0, 60)
  point P1 (0, 60)
  point P2 (0, 60)
  point P3 (0, 60)
  point P4 (0, 60)
  point P5 (244, 60)
  point P6 (244, 60)
  point P7 (244, 60)
  point P8 (244, 60)
  point P9 (244, 60)
  point P10 (244, 60)
  dimension "d1829" = 60
  dimension "d1833" = 240
  dimension "d1834" = 2
  dimension "d1835" = 0.4221
  dimension "d1836" = 0.7071
  dimension "d1837" = 0.4221
  dimension "d1842" = 2
  dimension "d1843" = 0.7071
  dimension "d1844" = 0.4221
  dimension "d1845" = 2
  dimension "d1846" = 0.4221
  dimension "d1848" = 2
  dimension "d1849" = 0.4221
  dimension "d1850" = 10.19
  dimension "d1862" = 0.4221
  dimension "d2106" = 14.905
  dimension "d2107" = 2
  dimension "d2109" = 9.81
  dimension "d2110" = 10.19
  dimension "d2111" = 30
  dimension "d2112" = 122
  dimension "d2113" = 58
  dimension "d2114" = 242
  dimension "d2115" = 3.175
  dimension "d2116" = 3.175
  dimension "d2117" = 9.81
  dimension "d2118" = 10.19
  dimension "d2119" = 10.19
  dimension "d2122" = 11.73
  dimension "d2123" = 3.175
  dimension "d2126" = 20
  dimension "d2127" = 0
  dimension "d2130" = 20
  dimension "d2131" = 0
  dimension "d2134" = 0
  dimension "d2135" = 20
  dimension "d2138" = 0
  dimension "d2139" = 20
sketch "Box Small Part" plane through (0, 0, 0) normal (0, 0, 1) x (1, 0, 0)
  line L0 (-286.905, 0) -> (-286.905, 1.5613)
  line L1 (-245.175, 0) -> (-245.175, 14.7758)
  line L2 (-243.5613, 35.905) -> (-242, 35.905)
  line L3 (-285.7758, 3.175) -> (-278.2242, 3.175)
  line L4 (-277.095, 1.5613) -> (-277.095, 0)
  line L5 (-243.5613, 15.905) -> (-242, 15.905)
  line L6 (-242, 26.095) -> (-242, 15.905)
  arc A0 (-243.5613, 15.905) -> (-245.175, 14.7758) centre (-244.4679, 15.4829) ccw
  arc A1 (-245.175, 27.2242) -> (-243.5613, 26.095) centre (-244.4679, 26.5171) ccw
  line L7 (-242, 26.095) -> (-243.5613, 26.095)
  line L8 (-245.175, 27.2242) -> (-245.175, 34.7758)
  arc A2 (-243.5613, 35.905) -> (-245.175, 34.7758) centre (-244.4679, 35.4829) ccw
  line L9 (-266.905, 0) -> (-277.095, 0)
  line L10 (-286.905, 0) -> (-298.825, 0)
  arc A3 (-285.7758, 3.175) -> (-286.905, 1.5613) centre (-286.4829, 2.4679) ccw
  arc A4 (-277.095, 1.5613) -> (-278.2242, 3.175) centre (-277.5171, 2.4679) ccw
  line L11 (-242, 46.095) -> (-242, 35.905)
  line L12 (-394.5485, 91) -> (-201, 91) construction
  arc A5 (-245.175, 167.2242) -> (-243.5613, 166.095) centre (-244.4679, 166.5171) ccw
  line L13 (-245.175, 182) -> (-245.175, 167.2242)
  line L14 (-243.5613, 166.095) -> (-242, 166.095)
  line L15 (-272, -12.9167) -> (-272, 179) construction
  arc A6 (-245.175, 167.2242) -> (-243.5613, 166.095) centre (-244.4679, 166.5171) ccw
  line L16 (-243.5613, 166.095) -> (-242, 166.095)
  line L17 (-245.175, 182) -> (-245.175, 167.2242)
  line L18 (-242, 155.905) -> (-242, 166.095)
  line L19 (-298.825, 27.2242) -> (-298.825, 34.7758)
  line L20 (-298.825, 0) -> (-298.825, 14.7758)
  line L21 (-302, 26.095) -> (-302, 15.905)
  arc A7 (-298.825, 14.7758) -> (-300.4387, 15.905) centre (-299.5321, 15.4829) ccw
  line L22 (-302, 46.095) -> (-302, 35.905)
  line L23 (-300.4387, 15.905) -> (-302, 15.905)
  line L24 (-300.4387, 35.905) -> (-302, 35.905)
  line L25 (-302, 26.095) -> (-300.4387, 26.095)
  arc A8 (-298.825, 34.7758) -> (-300.4387, 35.905) centre (-299.5321, 35.4829) ccw
  arc A9 (-300.4387, 26.095) -> (-298.825, 27.2242) centre (-299.5321, 26.5171) ccw
  line L26 (-277.095, 180.4387) -> (-277.095, 182)
  line L27 (-285.7758, 178.825) -> (-278.2242, 178.825)
  line L28 (-266.905, 182) -> (-277.095, 182)
  arc A10 (-286.905, 180.4387) -> (-285.7758, 178.825) centre (-286.4829, 179.5321) ccw
  line L29 (-286.905, 182) -> (-286.905, 180.4387)
  arc A11 (-278.2242, 178.825) -> (-277.095, 180.4387) centre (-277.5171, 179.5321) ccw
  line L30 (-286.905, 182) -> (-298.825, 182)
  line L31 (-302, 155.905) -> (-302, 166.095)
  arc A12 (-300.4387, 166.095) -> (-298.825, 167.2242) centre (-299.5321, 166.5171) ccw
  line L32 (-300.4387, 166.095) -> (-302, 166.095)
  line L33 (-298.825, 182) -> (-298.825, 167.2242)
  arc A13 (-300.4387, 166.095) -> (-298.825, 167.2242) centre (-299.5321, 166.5171) ccw
  line L34 (-300.4387, 166.095) -> (-302, 166.095)
  line L35 (-298.825, 182) -> (-298.825, 167.2242)
  line L36 (-242, 66.095) -> (-242, 55.905)
  line L37 (-245.175, 47.2242) -> (-245.175, 54.7758)
  line L38 (-242, 46.095) -> (-243.5613, 46.095)
  line L39 (-243.5613, 55.905) -> (-242, 55.905)
  arc A14 (-245.175, 47.2242) -> (-243.5613, 46.095) centre (-244.4679, 46.5171) ccw
  arc A15 (-243.5613, 55.905) -> (-245.175, 54.7758) centre (-244.4679, 55.4829) ccw
  line L40 (-242, 86.095) -> (-242, 75.905)
  line L41 (-245.175, 67.2242) -> (-245.175, 74.7758)
  line L42 (-242, 66.095) -> (-243.5613, 66.095)
  line L43 (-243.5613, 75.905) -> (-242, 75.905)
  arc A16 (-245.175, 67.2242) -> (-243.5613, 66.095) centre (-244.4679, 66.5171) ccw
  arc A17 (-243.5613, 75.905) -> (-245.175, 74.7758) centre (-244.4679, 75.4829) ccw
  line L44 (-242, 106.095) -> (-242, 95.905)
  line L45 (-245.175, 87.2242) -> (-245.175, 94.7758)
  line L46 (-242, 86.095) -> (-243.5613, 86.095)
  line L47 (-243.5613, 95.905) -> (-242, 95.905)
  arc A18 (-245.175, 87.2242) -> (-243.5613, 86.095) centre (-244.4679, 86.5171) ccw
  arc A19 (-243.5613, 95.905) -> (-245.175, 94.7758) centre (-244.4679, 95.4829) ccw
  line L48 (-300.4387, 55.905) -> (-302, 55.905)
  arc A20 (-300.4387, 46.095) -> (-298.825, 47.2242) centre (-299.5321, 46.5171) ccw
  arc A21 (-298.825, 54.7758) -> (-300.4387, 55.905) centre (-299.5321, 55.4829) ccw
  line L49 (-298.825, 47.2242) -> (-298.825, 54.7758)
  line L50 (-302, 46.095) -> (-300.4387, 46.095)
  line L51 (-302, 66.095) -> (-302, 55.905)
  line L52 (-300.4387, 75.905) -> (-302, 75.905)
  arc A22 (-300.4387, 66.095) -> (-298.825, 67.2242) centre (-299.5321, 66.5171) ccw
  arc A23 (-298.825, 74.7758) -> (-300.4387, 75.905) centre (-299.5321, 75.4829) ccw
  line L53 (-298.825, 67.2242) -> (-298.825, 74.7758)
  line L54 (-302, 66.095) -> (-300.4387, 66.095)
  line L55 (-302, 86.095) -> (-302, 75.905)
  line L56 (-300.4387, 95.905) -> (-302, 95.905)
  arc A24 (-300.4387, 86.095) -> (-298.825, 87.2242) centre (-299.5321, 86.5171) ccw
  arc A25 (-298.825, 94.7758) -> (-300.4387, 95.905) centre (-299.5321, 95.4829) ccw
  line L57 (-298.825, 87.2242) -> (-298.825, 94.7758)
  line L58 (-302, 86.095) -> (-300.4387, 86.095)
  line L59 (-302, 106.095) -> (-302, 95.905)
  line L60 (-245.175, 182) -> (-249.175, 182)
  line L61 (-245.175, 0) -> (-246.905, 0)
  line L62 (-242, 126.095) -> (-242, 115.905)
  line L63 (-245.175, 107.2242) -> (-245.175, 114.7758)
  line L64 (-242, 106.095) -> (-243.5613, 106.095)
  line L65 (-243.5613, 115.905) -> (-242, 115.905)
  arc A26 (-245.175, 107.2242) -> (-243.5613, 106.095) centre (-244.4679, 106.5171) ccw
  arc A27 (-243.5613, 115.905) -> (-245.175, 114.7758) centre (-244.4679, 115.4829) ccw
  line L66 (-300.4387, 115.905) -> (-302, 115.905)
  arc A28 (-300.4387, 106.095) -> (-298.825, 107.2242) centre (-299.5321, 106.5171) ccw
  arc A29 (-298.825, 114.7758) -> (-300.4387, 115.905) centre (-299.5321, 115.4829) ccw
  line L67 (-298.825, 107.2242) -> (-298.825, 114.7758)
  line L68 (-302, 106.095) -> (-300.4387, 106.095)
  line L69 (-302, 126.095) -> (-302, 115.905)
  arc A30 (-265.7758, 3.175) -> (-266.905, 1.5613) centre (-266.4829, 2.4679) ccw
  line L70 (-265.7758, 3.175) -> (-258.2242, 3.175)
  line L71 (-246.905, 0) -> (-257.095, 0)
  line L72 (-266.905, 0) -> (-266.905, 1.5613)
  line L73 (-257.095, 1.5613) -> (-257.095, 0)
  arc A31 (-257.095, 1.5613) -> (-258.2242, 3.175) centre (-257.5171, 2.4679) ccw
  line L74 (-246.905, 182) -> (-257.095, 182)
  line L75 (-257.095, 180.4387) -> (-257.095, 182)
  line L76 (-266.905, 182) -> (-266.905, 180.4387)
  arc A32 (-266.905, 180.4387) -> (-265.7758, 178.825) centre (-266.4829, 179.5321) ccw
  line L77 (-265.7758, 178.825) -> (-258.2242, 178.825)
  arc A33 (-258.2242, 178.825) -> (-257.095, 180.4387) centre (-257.5171, 179.5321) ccw
  line L78 (-242, 146.095) -> (-242, 135.905)
  line L79 (-245.175, 127.2242) -> (-245.175, 134.7758)
  line L80 (-242, 126.095) -> (-243.5613, 126.095)
  line L81 (-243.5613, 135.905) -> (-242, 135.905)
  arc A34 (-245.175, 127.2242) -> (-243.5613, 126.095) centre (-244.4679, 126.5171) ccw
  arc A35 (-243.5613, 135.905) -> (-245.175, 134.7758) centre (-244.4679, 135.4829) ccw
  line L82 (-300.4387, 135.905) -> (-302, 135.905)
  arc A36 (-300.4387, 126.095) -> (-298.825, 127.2242) centre (-299.5321, 126.5171) ccw
  arc A37 (-298.825, 134.7758) -> (-300.4387, 135.905) centre (-299.5321, 135.4829) ccw
  line L83 (-298.825, 127.2242) -> (-298.825, 134.7758)
  line L84 (-302, 126.095) -> (-300.4387, 126.095)
  line L85 (-302, 146.095) -> (-302, 135.905)
  line L86 (-242, 166.095) -> (-242, 155.905)
  line L87 (-245.175, 147.2242) -> (-245.175, 154.7758)
  line L88 (-242, 146.095) -> (-243.5613, 146.095)
  line L89 (-243.5613, 155.905) -> (-242, 155.905)
  arc A38 (-245.175, 147.2242) -> (-243.5613, 146.095) centre (-244.4679, 146.5171) ccw
  arc A39 (-243.5613, 155.905) -> (-245.175, 154.7758) centre (-244.4679, 155.4829) ccw
  line L90 (-300.4387, 155.905) -> (-302, 155.905)
  arc A40 (-300.4387, 146.095) -> (-298.825, 147.2242) centre (-299.5321, 146.5171) ccw
  arc A41 (-298.825, 154.7758) -> (-300.4387, 155.905) centre (-299.5321, 155.4829) ccw
  line L91 (-298.825, 147.2242) -> (-298.825, 154.7758)
  line L92 (-302, 146.095) -> (-300.4387, 146.095)
  line L93 (-302, 166.095) -> (-302, 155.905)
  dimension "d1887" = 2
  dimension "d1888" = 0.4221
  dimension "d1889" = 0.7071
  dimension "d1890" = 0.4221
  dimension "d1896" = 2
  dimension "d1899" = 2
  dimension "d1926" = 3.175
  dimension "d1948" = 0.7071
  dimension "d1949" = 0.4221
  dimension "d1951" = 0.4221
  dimension "d1953" = 9.81
  dimension "d1956" = 10.19
  dimension "d1958" = 0.4221
  dimension "d1959" = 0.7071
  dimension "d1960" = 0.7071
  dimension "d1961" = 9.81
  dimension "d1962" = 10.19
  dimension "d1963" = 242
  dimension "d1965" = 3.175
  dimension "d1974" = 91
  dimension "d1975" = 15.905
  dimension "d1976" = 10.19
  dimension "d1979" = 91
  dimension "d1989" = 15.095
  dimension "d1992" = 20
  dimension "d1993" = 20
  dimension "d1996" = 0
  dimension "d1997" = 20
  dimension "d2004" = 20
  dimension "d2005" = 0
  dimension "d2008" = 20
  dimension "d2009" = 0
  dimension "d2012" = 1.73
  dimension "d2099" = 298.825
equation "fingerWidth = 10 mm"
equation "length = 240 mm"
equation "thickness = 3.175 mm"
equation "height = 60 mm"
equation "toolDiameter = 2 mm"
equation "d34 = toolDiameter"
equation "d36 = boneCenterToHoleSide"
equation "d37 = boneCenterToHoleBottom"
equation "d38 = boneCenterToHoleSide"
equation "boneCenterToHoleBottom = toolDiameter / 2 / sqrt(2) - 0 * kerf" comment "Best: 2.001 -2*kerf, 0.1;;;Best: 2.001 no kerf and 0.1   OLD+6 kerf at 2.001 Diam and .1 mm"
equation "tempLengthPieces = ceil(( ( floor(( length - 2 * thickness ) / fingerWidth) - 2 ) - ( ( floor(( length - 2 * thickness ) / fingerWidth) - 2 ) % 2 - 1 ) ))"
equation "lengthCuts = ceil(tempLengthPieces / 2)"
equation "shoulderToothLength = ( length - fingerWidth * tempLengthPieces ) / 2 - kerf"
equation "depth = 182 mm"
equation "tempDepthPieces = ceil(( ( floor(( depth - 2 * thickness ) / fingerWidth) - 2 ) - ( ( floor(( depth - 2 * thickness ) / fingerWidth) - 2 ) % 2 - 1 ) ))"
equation "depthCuts = ceil(tempDepthPieces / 2)"
equation "shoulderToothDepth = ( depth - fingerWidth * tempDepthPieces ) / 2 - kerf"
equation "d48 = toolDiameter"
equation "d49 = boneCenterToHoleSide"
equation "d50 = shoulderToothDepth"
equation "d52 = boneCenterToHoleSide"
equation "d54 = boneCenterToHoleBottom"
equation "d55 = holeWidth"
equation "tempHeightPieces = ceil(( ( floor(( height - 2 * thickness ) / fingerWidth) - 2 ) - ( ( floor(( height - 2 * thickness ) / fingerWidth) - 2 ) % 2 - 1 ) ))"
equation "heightCuts = ceil(tempHeightPieces / 2)"
equation "sholderToothHeight = ( height - fingerWidth * tempHeightPieces ) / 2 - kerf"
equation "d189 = shoulderToothLength"
equation "kerf = -0.095 mm"
equation "holeWidth = fingerWidth + 2 * kerf"
equation "shoulderHoleLength = shoulderToothLength + 2 * kerf"
equation "shouderHoleDepth = shoulderToothDepth + 2 * kerf"
equation "shoulderHoleHeight = sholderToothHeight + 2 * kerf"
equation "assembleScrewDiam = 2.1 mm"
equation "assembleScrewDistance = 6 mm"
equation "assembleAvoidCollisionDistance = 1 mm"
equation "coolingHoleDistance = 8 mm"
equation "boneCornerToCenterPack = -3 * kerf"
equation "boneCenterToHoleSide = boneCenterToHoleBottom - boneCornerToCenterPack"
equation "d473 = length"
equation "d479 = -toolDiameter / 2"
equation "pumpLength = 52 mm"
equation "pumpCircleDiam = 30 mm"
equation "pumpHeight = 34 mm"
equation "sensorWireDistance = 10 mm"
equation "sensorWireDiam = 3.5 mm"
equation "pumpScrewDiam = 3 mm"
equation "pcbMountHoles = 2 mm"
equation "ventDiameter = 3 mm"
equation "platformGrommetMountDiameter = 3.5 mm"
equation "hangerWireDiameter = 2 mm"
equation "topPillowHoleDistance = 22 mm"
equation "d1829 = height"
equation "d1833 = length"
equation "d1834 = toolDiameter"
equation "d1835 = boneCenterToHoleSide"
equation "d1836 = boneCenterToHoleBottom"
equation "d1837 = boneCenterToHoleSide"
equation "d1842 = toolDiameter"
equation "d1843 = boneCenterToHoleBottom"
equation "d1844 = boneCenterToHoleSide"
equation "d1845 = toolDiameter"
equation "d1846 = boneCenterToHoleSide"
equation "d1848 = toolDiameter"
equation "d1849 = boneCenterToHoleSide"
equation "d1850 = fingerWidth - 2 * kerf"
equation "d1862 = boneCenterToHoleSide"
equation "d1887 = toolDiameter"
equation "d1888 = boneCenterToHoleSide"
equation "d1889 = boneCenterToHoleBottom"
equation "d1890 = boneCenterToHoleSide"
equation "d1896 = toolDiameter"
equation "d1899 = toolDiameter"
equation "d1926 = thickness"
equation "d1948 = boneCenterToHoleBottom"
equation "d1949 = boneCenterToHoleSide"
equation "d1951 = boneCenterToHoleSide"
equation "d1953 = holeWidth"
equation "d1956 = fingerWidth - 2 * kerf"
equation "d1958 = boneCenterToHoleSide"
equation "d1959 = boneCenterToHoleBottom"
equation "d1960 = boneCenterToHoleBottom"
equation "d1961 = holeWidth"
equation "d1962 = fingerWidth - 2 * kerf"
equation "d1963 = length + toolDiameter"
equation "d1965 = thickness"
equation "d1974 = depth / 2"
equation "d1975 = shouderHoleDepth"
equation "d1976 = fingerWidth - 2 * kerf"
equation "d1979 = depth / 2"
equation "d1989 = sholderToothHeight"
equation "d1991 = depthCuts - 1"
equation "d1992 = 2 * fingerWidth"
equation "d1993 = 2 * fingerWidth"
equation "d1995 = depthCuts - 1"
equation "d1997 = 2 * fingerWidth"
equation "d2002 = heightCuts"
equation "d2004 = 2 * fingerWidth"
equation "d2006 = heightCuts"
equation "d2008 = 2 * fingerWidth"
equation "d2012 = extraLineHeight"
equation "extraLineHeight = ( max(-appendix + ( sholderToothHeight - thickness ); 0.001 mm) )"
equation "appendix = fingerWidth - 2 * kerf"
equation "d2016 = thickness + length"
equation "d2017 = height + thickness + length"
equation "d2062 = appendix"
equation "d2063 = holeWidth"
equation "d2064 = thickness"
equation "d2068 = thickness"
equation "d2069 = appendix"
equation "d2071 = length / 2"
equation "d2072 = lengthCuts"
equation "d2074 = 2 * fingerWidth"
equation "d2076 = extraLineLength"
equation "extraLineLength = ( max(-appendix + ( shoulderToothLength ); 0.001 mm) )"
equation "d2079 = depthCuts"
equation "d2081 = 2 * fingerWidth"
equation "d2082 = lengthCuts"
equation "d2084 = 2 * fingerWidth"
equation "d2087 = extraLineLength"
equation "d2088 = depth"
equation "d2090 = depthCuts"
equation "d2092 = 2 * fingerWidth"
equation "d2095 = extraLineDepth"
equation "extraLineDepth = ( max(-appendix + ( shoulderToothDepth ); 0.001 mm) )"
equation "d2097 = extraLineDepth"
equation "d2098 = depth"
equation "d2102 = depth"
equation "d2103 = depth / 2"
equation "d2104 = thickness"
equation "d2106 = shoulderHoleLength"
equation "d2107 = toolDiameter"
equation "d2109 = holeWidth"
equation "d2110 = fingerWidth - 2 * kerf"
equation "d2111 = height / 2"
equation "d2112 = toolDiameter + length / 2"
equation "d2113 = height - toolDiameter"
equation "d2114 = length + toolDiameter"
equation "d2115 = thickness"
equation "d2116 = thickness"
equation "d2117 = holeWidth"
equation "d2118 = appendix"
equation "d2119 = appendix"
equation "d2122 = shoulderHoleHeight - thickness"
equation "d2124 = lengthCuts - 1"
equation "d2126 = 2 * fingerWidth"
equation "d2128 = lengthCuts - 1"
equation "d2130 = 2 * fingerWidth"
equation "d2133 = heightCuts - 1"
equation "d2135 = 2 * fingerWidth"
equation "d2137 = heightCuts - 1"
equation "d2139 = 2 * fingerWidth"
